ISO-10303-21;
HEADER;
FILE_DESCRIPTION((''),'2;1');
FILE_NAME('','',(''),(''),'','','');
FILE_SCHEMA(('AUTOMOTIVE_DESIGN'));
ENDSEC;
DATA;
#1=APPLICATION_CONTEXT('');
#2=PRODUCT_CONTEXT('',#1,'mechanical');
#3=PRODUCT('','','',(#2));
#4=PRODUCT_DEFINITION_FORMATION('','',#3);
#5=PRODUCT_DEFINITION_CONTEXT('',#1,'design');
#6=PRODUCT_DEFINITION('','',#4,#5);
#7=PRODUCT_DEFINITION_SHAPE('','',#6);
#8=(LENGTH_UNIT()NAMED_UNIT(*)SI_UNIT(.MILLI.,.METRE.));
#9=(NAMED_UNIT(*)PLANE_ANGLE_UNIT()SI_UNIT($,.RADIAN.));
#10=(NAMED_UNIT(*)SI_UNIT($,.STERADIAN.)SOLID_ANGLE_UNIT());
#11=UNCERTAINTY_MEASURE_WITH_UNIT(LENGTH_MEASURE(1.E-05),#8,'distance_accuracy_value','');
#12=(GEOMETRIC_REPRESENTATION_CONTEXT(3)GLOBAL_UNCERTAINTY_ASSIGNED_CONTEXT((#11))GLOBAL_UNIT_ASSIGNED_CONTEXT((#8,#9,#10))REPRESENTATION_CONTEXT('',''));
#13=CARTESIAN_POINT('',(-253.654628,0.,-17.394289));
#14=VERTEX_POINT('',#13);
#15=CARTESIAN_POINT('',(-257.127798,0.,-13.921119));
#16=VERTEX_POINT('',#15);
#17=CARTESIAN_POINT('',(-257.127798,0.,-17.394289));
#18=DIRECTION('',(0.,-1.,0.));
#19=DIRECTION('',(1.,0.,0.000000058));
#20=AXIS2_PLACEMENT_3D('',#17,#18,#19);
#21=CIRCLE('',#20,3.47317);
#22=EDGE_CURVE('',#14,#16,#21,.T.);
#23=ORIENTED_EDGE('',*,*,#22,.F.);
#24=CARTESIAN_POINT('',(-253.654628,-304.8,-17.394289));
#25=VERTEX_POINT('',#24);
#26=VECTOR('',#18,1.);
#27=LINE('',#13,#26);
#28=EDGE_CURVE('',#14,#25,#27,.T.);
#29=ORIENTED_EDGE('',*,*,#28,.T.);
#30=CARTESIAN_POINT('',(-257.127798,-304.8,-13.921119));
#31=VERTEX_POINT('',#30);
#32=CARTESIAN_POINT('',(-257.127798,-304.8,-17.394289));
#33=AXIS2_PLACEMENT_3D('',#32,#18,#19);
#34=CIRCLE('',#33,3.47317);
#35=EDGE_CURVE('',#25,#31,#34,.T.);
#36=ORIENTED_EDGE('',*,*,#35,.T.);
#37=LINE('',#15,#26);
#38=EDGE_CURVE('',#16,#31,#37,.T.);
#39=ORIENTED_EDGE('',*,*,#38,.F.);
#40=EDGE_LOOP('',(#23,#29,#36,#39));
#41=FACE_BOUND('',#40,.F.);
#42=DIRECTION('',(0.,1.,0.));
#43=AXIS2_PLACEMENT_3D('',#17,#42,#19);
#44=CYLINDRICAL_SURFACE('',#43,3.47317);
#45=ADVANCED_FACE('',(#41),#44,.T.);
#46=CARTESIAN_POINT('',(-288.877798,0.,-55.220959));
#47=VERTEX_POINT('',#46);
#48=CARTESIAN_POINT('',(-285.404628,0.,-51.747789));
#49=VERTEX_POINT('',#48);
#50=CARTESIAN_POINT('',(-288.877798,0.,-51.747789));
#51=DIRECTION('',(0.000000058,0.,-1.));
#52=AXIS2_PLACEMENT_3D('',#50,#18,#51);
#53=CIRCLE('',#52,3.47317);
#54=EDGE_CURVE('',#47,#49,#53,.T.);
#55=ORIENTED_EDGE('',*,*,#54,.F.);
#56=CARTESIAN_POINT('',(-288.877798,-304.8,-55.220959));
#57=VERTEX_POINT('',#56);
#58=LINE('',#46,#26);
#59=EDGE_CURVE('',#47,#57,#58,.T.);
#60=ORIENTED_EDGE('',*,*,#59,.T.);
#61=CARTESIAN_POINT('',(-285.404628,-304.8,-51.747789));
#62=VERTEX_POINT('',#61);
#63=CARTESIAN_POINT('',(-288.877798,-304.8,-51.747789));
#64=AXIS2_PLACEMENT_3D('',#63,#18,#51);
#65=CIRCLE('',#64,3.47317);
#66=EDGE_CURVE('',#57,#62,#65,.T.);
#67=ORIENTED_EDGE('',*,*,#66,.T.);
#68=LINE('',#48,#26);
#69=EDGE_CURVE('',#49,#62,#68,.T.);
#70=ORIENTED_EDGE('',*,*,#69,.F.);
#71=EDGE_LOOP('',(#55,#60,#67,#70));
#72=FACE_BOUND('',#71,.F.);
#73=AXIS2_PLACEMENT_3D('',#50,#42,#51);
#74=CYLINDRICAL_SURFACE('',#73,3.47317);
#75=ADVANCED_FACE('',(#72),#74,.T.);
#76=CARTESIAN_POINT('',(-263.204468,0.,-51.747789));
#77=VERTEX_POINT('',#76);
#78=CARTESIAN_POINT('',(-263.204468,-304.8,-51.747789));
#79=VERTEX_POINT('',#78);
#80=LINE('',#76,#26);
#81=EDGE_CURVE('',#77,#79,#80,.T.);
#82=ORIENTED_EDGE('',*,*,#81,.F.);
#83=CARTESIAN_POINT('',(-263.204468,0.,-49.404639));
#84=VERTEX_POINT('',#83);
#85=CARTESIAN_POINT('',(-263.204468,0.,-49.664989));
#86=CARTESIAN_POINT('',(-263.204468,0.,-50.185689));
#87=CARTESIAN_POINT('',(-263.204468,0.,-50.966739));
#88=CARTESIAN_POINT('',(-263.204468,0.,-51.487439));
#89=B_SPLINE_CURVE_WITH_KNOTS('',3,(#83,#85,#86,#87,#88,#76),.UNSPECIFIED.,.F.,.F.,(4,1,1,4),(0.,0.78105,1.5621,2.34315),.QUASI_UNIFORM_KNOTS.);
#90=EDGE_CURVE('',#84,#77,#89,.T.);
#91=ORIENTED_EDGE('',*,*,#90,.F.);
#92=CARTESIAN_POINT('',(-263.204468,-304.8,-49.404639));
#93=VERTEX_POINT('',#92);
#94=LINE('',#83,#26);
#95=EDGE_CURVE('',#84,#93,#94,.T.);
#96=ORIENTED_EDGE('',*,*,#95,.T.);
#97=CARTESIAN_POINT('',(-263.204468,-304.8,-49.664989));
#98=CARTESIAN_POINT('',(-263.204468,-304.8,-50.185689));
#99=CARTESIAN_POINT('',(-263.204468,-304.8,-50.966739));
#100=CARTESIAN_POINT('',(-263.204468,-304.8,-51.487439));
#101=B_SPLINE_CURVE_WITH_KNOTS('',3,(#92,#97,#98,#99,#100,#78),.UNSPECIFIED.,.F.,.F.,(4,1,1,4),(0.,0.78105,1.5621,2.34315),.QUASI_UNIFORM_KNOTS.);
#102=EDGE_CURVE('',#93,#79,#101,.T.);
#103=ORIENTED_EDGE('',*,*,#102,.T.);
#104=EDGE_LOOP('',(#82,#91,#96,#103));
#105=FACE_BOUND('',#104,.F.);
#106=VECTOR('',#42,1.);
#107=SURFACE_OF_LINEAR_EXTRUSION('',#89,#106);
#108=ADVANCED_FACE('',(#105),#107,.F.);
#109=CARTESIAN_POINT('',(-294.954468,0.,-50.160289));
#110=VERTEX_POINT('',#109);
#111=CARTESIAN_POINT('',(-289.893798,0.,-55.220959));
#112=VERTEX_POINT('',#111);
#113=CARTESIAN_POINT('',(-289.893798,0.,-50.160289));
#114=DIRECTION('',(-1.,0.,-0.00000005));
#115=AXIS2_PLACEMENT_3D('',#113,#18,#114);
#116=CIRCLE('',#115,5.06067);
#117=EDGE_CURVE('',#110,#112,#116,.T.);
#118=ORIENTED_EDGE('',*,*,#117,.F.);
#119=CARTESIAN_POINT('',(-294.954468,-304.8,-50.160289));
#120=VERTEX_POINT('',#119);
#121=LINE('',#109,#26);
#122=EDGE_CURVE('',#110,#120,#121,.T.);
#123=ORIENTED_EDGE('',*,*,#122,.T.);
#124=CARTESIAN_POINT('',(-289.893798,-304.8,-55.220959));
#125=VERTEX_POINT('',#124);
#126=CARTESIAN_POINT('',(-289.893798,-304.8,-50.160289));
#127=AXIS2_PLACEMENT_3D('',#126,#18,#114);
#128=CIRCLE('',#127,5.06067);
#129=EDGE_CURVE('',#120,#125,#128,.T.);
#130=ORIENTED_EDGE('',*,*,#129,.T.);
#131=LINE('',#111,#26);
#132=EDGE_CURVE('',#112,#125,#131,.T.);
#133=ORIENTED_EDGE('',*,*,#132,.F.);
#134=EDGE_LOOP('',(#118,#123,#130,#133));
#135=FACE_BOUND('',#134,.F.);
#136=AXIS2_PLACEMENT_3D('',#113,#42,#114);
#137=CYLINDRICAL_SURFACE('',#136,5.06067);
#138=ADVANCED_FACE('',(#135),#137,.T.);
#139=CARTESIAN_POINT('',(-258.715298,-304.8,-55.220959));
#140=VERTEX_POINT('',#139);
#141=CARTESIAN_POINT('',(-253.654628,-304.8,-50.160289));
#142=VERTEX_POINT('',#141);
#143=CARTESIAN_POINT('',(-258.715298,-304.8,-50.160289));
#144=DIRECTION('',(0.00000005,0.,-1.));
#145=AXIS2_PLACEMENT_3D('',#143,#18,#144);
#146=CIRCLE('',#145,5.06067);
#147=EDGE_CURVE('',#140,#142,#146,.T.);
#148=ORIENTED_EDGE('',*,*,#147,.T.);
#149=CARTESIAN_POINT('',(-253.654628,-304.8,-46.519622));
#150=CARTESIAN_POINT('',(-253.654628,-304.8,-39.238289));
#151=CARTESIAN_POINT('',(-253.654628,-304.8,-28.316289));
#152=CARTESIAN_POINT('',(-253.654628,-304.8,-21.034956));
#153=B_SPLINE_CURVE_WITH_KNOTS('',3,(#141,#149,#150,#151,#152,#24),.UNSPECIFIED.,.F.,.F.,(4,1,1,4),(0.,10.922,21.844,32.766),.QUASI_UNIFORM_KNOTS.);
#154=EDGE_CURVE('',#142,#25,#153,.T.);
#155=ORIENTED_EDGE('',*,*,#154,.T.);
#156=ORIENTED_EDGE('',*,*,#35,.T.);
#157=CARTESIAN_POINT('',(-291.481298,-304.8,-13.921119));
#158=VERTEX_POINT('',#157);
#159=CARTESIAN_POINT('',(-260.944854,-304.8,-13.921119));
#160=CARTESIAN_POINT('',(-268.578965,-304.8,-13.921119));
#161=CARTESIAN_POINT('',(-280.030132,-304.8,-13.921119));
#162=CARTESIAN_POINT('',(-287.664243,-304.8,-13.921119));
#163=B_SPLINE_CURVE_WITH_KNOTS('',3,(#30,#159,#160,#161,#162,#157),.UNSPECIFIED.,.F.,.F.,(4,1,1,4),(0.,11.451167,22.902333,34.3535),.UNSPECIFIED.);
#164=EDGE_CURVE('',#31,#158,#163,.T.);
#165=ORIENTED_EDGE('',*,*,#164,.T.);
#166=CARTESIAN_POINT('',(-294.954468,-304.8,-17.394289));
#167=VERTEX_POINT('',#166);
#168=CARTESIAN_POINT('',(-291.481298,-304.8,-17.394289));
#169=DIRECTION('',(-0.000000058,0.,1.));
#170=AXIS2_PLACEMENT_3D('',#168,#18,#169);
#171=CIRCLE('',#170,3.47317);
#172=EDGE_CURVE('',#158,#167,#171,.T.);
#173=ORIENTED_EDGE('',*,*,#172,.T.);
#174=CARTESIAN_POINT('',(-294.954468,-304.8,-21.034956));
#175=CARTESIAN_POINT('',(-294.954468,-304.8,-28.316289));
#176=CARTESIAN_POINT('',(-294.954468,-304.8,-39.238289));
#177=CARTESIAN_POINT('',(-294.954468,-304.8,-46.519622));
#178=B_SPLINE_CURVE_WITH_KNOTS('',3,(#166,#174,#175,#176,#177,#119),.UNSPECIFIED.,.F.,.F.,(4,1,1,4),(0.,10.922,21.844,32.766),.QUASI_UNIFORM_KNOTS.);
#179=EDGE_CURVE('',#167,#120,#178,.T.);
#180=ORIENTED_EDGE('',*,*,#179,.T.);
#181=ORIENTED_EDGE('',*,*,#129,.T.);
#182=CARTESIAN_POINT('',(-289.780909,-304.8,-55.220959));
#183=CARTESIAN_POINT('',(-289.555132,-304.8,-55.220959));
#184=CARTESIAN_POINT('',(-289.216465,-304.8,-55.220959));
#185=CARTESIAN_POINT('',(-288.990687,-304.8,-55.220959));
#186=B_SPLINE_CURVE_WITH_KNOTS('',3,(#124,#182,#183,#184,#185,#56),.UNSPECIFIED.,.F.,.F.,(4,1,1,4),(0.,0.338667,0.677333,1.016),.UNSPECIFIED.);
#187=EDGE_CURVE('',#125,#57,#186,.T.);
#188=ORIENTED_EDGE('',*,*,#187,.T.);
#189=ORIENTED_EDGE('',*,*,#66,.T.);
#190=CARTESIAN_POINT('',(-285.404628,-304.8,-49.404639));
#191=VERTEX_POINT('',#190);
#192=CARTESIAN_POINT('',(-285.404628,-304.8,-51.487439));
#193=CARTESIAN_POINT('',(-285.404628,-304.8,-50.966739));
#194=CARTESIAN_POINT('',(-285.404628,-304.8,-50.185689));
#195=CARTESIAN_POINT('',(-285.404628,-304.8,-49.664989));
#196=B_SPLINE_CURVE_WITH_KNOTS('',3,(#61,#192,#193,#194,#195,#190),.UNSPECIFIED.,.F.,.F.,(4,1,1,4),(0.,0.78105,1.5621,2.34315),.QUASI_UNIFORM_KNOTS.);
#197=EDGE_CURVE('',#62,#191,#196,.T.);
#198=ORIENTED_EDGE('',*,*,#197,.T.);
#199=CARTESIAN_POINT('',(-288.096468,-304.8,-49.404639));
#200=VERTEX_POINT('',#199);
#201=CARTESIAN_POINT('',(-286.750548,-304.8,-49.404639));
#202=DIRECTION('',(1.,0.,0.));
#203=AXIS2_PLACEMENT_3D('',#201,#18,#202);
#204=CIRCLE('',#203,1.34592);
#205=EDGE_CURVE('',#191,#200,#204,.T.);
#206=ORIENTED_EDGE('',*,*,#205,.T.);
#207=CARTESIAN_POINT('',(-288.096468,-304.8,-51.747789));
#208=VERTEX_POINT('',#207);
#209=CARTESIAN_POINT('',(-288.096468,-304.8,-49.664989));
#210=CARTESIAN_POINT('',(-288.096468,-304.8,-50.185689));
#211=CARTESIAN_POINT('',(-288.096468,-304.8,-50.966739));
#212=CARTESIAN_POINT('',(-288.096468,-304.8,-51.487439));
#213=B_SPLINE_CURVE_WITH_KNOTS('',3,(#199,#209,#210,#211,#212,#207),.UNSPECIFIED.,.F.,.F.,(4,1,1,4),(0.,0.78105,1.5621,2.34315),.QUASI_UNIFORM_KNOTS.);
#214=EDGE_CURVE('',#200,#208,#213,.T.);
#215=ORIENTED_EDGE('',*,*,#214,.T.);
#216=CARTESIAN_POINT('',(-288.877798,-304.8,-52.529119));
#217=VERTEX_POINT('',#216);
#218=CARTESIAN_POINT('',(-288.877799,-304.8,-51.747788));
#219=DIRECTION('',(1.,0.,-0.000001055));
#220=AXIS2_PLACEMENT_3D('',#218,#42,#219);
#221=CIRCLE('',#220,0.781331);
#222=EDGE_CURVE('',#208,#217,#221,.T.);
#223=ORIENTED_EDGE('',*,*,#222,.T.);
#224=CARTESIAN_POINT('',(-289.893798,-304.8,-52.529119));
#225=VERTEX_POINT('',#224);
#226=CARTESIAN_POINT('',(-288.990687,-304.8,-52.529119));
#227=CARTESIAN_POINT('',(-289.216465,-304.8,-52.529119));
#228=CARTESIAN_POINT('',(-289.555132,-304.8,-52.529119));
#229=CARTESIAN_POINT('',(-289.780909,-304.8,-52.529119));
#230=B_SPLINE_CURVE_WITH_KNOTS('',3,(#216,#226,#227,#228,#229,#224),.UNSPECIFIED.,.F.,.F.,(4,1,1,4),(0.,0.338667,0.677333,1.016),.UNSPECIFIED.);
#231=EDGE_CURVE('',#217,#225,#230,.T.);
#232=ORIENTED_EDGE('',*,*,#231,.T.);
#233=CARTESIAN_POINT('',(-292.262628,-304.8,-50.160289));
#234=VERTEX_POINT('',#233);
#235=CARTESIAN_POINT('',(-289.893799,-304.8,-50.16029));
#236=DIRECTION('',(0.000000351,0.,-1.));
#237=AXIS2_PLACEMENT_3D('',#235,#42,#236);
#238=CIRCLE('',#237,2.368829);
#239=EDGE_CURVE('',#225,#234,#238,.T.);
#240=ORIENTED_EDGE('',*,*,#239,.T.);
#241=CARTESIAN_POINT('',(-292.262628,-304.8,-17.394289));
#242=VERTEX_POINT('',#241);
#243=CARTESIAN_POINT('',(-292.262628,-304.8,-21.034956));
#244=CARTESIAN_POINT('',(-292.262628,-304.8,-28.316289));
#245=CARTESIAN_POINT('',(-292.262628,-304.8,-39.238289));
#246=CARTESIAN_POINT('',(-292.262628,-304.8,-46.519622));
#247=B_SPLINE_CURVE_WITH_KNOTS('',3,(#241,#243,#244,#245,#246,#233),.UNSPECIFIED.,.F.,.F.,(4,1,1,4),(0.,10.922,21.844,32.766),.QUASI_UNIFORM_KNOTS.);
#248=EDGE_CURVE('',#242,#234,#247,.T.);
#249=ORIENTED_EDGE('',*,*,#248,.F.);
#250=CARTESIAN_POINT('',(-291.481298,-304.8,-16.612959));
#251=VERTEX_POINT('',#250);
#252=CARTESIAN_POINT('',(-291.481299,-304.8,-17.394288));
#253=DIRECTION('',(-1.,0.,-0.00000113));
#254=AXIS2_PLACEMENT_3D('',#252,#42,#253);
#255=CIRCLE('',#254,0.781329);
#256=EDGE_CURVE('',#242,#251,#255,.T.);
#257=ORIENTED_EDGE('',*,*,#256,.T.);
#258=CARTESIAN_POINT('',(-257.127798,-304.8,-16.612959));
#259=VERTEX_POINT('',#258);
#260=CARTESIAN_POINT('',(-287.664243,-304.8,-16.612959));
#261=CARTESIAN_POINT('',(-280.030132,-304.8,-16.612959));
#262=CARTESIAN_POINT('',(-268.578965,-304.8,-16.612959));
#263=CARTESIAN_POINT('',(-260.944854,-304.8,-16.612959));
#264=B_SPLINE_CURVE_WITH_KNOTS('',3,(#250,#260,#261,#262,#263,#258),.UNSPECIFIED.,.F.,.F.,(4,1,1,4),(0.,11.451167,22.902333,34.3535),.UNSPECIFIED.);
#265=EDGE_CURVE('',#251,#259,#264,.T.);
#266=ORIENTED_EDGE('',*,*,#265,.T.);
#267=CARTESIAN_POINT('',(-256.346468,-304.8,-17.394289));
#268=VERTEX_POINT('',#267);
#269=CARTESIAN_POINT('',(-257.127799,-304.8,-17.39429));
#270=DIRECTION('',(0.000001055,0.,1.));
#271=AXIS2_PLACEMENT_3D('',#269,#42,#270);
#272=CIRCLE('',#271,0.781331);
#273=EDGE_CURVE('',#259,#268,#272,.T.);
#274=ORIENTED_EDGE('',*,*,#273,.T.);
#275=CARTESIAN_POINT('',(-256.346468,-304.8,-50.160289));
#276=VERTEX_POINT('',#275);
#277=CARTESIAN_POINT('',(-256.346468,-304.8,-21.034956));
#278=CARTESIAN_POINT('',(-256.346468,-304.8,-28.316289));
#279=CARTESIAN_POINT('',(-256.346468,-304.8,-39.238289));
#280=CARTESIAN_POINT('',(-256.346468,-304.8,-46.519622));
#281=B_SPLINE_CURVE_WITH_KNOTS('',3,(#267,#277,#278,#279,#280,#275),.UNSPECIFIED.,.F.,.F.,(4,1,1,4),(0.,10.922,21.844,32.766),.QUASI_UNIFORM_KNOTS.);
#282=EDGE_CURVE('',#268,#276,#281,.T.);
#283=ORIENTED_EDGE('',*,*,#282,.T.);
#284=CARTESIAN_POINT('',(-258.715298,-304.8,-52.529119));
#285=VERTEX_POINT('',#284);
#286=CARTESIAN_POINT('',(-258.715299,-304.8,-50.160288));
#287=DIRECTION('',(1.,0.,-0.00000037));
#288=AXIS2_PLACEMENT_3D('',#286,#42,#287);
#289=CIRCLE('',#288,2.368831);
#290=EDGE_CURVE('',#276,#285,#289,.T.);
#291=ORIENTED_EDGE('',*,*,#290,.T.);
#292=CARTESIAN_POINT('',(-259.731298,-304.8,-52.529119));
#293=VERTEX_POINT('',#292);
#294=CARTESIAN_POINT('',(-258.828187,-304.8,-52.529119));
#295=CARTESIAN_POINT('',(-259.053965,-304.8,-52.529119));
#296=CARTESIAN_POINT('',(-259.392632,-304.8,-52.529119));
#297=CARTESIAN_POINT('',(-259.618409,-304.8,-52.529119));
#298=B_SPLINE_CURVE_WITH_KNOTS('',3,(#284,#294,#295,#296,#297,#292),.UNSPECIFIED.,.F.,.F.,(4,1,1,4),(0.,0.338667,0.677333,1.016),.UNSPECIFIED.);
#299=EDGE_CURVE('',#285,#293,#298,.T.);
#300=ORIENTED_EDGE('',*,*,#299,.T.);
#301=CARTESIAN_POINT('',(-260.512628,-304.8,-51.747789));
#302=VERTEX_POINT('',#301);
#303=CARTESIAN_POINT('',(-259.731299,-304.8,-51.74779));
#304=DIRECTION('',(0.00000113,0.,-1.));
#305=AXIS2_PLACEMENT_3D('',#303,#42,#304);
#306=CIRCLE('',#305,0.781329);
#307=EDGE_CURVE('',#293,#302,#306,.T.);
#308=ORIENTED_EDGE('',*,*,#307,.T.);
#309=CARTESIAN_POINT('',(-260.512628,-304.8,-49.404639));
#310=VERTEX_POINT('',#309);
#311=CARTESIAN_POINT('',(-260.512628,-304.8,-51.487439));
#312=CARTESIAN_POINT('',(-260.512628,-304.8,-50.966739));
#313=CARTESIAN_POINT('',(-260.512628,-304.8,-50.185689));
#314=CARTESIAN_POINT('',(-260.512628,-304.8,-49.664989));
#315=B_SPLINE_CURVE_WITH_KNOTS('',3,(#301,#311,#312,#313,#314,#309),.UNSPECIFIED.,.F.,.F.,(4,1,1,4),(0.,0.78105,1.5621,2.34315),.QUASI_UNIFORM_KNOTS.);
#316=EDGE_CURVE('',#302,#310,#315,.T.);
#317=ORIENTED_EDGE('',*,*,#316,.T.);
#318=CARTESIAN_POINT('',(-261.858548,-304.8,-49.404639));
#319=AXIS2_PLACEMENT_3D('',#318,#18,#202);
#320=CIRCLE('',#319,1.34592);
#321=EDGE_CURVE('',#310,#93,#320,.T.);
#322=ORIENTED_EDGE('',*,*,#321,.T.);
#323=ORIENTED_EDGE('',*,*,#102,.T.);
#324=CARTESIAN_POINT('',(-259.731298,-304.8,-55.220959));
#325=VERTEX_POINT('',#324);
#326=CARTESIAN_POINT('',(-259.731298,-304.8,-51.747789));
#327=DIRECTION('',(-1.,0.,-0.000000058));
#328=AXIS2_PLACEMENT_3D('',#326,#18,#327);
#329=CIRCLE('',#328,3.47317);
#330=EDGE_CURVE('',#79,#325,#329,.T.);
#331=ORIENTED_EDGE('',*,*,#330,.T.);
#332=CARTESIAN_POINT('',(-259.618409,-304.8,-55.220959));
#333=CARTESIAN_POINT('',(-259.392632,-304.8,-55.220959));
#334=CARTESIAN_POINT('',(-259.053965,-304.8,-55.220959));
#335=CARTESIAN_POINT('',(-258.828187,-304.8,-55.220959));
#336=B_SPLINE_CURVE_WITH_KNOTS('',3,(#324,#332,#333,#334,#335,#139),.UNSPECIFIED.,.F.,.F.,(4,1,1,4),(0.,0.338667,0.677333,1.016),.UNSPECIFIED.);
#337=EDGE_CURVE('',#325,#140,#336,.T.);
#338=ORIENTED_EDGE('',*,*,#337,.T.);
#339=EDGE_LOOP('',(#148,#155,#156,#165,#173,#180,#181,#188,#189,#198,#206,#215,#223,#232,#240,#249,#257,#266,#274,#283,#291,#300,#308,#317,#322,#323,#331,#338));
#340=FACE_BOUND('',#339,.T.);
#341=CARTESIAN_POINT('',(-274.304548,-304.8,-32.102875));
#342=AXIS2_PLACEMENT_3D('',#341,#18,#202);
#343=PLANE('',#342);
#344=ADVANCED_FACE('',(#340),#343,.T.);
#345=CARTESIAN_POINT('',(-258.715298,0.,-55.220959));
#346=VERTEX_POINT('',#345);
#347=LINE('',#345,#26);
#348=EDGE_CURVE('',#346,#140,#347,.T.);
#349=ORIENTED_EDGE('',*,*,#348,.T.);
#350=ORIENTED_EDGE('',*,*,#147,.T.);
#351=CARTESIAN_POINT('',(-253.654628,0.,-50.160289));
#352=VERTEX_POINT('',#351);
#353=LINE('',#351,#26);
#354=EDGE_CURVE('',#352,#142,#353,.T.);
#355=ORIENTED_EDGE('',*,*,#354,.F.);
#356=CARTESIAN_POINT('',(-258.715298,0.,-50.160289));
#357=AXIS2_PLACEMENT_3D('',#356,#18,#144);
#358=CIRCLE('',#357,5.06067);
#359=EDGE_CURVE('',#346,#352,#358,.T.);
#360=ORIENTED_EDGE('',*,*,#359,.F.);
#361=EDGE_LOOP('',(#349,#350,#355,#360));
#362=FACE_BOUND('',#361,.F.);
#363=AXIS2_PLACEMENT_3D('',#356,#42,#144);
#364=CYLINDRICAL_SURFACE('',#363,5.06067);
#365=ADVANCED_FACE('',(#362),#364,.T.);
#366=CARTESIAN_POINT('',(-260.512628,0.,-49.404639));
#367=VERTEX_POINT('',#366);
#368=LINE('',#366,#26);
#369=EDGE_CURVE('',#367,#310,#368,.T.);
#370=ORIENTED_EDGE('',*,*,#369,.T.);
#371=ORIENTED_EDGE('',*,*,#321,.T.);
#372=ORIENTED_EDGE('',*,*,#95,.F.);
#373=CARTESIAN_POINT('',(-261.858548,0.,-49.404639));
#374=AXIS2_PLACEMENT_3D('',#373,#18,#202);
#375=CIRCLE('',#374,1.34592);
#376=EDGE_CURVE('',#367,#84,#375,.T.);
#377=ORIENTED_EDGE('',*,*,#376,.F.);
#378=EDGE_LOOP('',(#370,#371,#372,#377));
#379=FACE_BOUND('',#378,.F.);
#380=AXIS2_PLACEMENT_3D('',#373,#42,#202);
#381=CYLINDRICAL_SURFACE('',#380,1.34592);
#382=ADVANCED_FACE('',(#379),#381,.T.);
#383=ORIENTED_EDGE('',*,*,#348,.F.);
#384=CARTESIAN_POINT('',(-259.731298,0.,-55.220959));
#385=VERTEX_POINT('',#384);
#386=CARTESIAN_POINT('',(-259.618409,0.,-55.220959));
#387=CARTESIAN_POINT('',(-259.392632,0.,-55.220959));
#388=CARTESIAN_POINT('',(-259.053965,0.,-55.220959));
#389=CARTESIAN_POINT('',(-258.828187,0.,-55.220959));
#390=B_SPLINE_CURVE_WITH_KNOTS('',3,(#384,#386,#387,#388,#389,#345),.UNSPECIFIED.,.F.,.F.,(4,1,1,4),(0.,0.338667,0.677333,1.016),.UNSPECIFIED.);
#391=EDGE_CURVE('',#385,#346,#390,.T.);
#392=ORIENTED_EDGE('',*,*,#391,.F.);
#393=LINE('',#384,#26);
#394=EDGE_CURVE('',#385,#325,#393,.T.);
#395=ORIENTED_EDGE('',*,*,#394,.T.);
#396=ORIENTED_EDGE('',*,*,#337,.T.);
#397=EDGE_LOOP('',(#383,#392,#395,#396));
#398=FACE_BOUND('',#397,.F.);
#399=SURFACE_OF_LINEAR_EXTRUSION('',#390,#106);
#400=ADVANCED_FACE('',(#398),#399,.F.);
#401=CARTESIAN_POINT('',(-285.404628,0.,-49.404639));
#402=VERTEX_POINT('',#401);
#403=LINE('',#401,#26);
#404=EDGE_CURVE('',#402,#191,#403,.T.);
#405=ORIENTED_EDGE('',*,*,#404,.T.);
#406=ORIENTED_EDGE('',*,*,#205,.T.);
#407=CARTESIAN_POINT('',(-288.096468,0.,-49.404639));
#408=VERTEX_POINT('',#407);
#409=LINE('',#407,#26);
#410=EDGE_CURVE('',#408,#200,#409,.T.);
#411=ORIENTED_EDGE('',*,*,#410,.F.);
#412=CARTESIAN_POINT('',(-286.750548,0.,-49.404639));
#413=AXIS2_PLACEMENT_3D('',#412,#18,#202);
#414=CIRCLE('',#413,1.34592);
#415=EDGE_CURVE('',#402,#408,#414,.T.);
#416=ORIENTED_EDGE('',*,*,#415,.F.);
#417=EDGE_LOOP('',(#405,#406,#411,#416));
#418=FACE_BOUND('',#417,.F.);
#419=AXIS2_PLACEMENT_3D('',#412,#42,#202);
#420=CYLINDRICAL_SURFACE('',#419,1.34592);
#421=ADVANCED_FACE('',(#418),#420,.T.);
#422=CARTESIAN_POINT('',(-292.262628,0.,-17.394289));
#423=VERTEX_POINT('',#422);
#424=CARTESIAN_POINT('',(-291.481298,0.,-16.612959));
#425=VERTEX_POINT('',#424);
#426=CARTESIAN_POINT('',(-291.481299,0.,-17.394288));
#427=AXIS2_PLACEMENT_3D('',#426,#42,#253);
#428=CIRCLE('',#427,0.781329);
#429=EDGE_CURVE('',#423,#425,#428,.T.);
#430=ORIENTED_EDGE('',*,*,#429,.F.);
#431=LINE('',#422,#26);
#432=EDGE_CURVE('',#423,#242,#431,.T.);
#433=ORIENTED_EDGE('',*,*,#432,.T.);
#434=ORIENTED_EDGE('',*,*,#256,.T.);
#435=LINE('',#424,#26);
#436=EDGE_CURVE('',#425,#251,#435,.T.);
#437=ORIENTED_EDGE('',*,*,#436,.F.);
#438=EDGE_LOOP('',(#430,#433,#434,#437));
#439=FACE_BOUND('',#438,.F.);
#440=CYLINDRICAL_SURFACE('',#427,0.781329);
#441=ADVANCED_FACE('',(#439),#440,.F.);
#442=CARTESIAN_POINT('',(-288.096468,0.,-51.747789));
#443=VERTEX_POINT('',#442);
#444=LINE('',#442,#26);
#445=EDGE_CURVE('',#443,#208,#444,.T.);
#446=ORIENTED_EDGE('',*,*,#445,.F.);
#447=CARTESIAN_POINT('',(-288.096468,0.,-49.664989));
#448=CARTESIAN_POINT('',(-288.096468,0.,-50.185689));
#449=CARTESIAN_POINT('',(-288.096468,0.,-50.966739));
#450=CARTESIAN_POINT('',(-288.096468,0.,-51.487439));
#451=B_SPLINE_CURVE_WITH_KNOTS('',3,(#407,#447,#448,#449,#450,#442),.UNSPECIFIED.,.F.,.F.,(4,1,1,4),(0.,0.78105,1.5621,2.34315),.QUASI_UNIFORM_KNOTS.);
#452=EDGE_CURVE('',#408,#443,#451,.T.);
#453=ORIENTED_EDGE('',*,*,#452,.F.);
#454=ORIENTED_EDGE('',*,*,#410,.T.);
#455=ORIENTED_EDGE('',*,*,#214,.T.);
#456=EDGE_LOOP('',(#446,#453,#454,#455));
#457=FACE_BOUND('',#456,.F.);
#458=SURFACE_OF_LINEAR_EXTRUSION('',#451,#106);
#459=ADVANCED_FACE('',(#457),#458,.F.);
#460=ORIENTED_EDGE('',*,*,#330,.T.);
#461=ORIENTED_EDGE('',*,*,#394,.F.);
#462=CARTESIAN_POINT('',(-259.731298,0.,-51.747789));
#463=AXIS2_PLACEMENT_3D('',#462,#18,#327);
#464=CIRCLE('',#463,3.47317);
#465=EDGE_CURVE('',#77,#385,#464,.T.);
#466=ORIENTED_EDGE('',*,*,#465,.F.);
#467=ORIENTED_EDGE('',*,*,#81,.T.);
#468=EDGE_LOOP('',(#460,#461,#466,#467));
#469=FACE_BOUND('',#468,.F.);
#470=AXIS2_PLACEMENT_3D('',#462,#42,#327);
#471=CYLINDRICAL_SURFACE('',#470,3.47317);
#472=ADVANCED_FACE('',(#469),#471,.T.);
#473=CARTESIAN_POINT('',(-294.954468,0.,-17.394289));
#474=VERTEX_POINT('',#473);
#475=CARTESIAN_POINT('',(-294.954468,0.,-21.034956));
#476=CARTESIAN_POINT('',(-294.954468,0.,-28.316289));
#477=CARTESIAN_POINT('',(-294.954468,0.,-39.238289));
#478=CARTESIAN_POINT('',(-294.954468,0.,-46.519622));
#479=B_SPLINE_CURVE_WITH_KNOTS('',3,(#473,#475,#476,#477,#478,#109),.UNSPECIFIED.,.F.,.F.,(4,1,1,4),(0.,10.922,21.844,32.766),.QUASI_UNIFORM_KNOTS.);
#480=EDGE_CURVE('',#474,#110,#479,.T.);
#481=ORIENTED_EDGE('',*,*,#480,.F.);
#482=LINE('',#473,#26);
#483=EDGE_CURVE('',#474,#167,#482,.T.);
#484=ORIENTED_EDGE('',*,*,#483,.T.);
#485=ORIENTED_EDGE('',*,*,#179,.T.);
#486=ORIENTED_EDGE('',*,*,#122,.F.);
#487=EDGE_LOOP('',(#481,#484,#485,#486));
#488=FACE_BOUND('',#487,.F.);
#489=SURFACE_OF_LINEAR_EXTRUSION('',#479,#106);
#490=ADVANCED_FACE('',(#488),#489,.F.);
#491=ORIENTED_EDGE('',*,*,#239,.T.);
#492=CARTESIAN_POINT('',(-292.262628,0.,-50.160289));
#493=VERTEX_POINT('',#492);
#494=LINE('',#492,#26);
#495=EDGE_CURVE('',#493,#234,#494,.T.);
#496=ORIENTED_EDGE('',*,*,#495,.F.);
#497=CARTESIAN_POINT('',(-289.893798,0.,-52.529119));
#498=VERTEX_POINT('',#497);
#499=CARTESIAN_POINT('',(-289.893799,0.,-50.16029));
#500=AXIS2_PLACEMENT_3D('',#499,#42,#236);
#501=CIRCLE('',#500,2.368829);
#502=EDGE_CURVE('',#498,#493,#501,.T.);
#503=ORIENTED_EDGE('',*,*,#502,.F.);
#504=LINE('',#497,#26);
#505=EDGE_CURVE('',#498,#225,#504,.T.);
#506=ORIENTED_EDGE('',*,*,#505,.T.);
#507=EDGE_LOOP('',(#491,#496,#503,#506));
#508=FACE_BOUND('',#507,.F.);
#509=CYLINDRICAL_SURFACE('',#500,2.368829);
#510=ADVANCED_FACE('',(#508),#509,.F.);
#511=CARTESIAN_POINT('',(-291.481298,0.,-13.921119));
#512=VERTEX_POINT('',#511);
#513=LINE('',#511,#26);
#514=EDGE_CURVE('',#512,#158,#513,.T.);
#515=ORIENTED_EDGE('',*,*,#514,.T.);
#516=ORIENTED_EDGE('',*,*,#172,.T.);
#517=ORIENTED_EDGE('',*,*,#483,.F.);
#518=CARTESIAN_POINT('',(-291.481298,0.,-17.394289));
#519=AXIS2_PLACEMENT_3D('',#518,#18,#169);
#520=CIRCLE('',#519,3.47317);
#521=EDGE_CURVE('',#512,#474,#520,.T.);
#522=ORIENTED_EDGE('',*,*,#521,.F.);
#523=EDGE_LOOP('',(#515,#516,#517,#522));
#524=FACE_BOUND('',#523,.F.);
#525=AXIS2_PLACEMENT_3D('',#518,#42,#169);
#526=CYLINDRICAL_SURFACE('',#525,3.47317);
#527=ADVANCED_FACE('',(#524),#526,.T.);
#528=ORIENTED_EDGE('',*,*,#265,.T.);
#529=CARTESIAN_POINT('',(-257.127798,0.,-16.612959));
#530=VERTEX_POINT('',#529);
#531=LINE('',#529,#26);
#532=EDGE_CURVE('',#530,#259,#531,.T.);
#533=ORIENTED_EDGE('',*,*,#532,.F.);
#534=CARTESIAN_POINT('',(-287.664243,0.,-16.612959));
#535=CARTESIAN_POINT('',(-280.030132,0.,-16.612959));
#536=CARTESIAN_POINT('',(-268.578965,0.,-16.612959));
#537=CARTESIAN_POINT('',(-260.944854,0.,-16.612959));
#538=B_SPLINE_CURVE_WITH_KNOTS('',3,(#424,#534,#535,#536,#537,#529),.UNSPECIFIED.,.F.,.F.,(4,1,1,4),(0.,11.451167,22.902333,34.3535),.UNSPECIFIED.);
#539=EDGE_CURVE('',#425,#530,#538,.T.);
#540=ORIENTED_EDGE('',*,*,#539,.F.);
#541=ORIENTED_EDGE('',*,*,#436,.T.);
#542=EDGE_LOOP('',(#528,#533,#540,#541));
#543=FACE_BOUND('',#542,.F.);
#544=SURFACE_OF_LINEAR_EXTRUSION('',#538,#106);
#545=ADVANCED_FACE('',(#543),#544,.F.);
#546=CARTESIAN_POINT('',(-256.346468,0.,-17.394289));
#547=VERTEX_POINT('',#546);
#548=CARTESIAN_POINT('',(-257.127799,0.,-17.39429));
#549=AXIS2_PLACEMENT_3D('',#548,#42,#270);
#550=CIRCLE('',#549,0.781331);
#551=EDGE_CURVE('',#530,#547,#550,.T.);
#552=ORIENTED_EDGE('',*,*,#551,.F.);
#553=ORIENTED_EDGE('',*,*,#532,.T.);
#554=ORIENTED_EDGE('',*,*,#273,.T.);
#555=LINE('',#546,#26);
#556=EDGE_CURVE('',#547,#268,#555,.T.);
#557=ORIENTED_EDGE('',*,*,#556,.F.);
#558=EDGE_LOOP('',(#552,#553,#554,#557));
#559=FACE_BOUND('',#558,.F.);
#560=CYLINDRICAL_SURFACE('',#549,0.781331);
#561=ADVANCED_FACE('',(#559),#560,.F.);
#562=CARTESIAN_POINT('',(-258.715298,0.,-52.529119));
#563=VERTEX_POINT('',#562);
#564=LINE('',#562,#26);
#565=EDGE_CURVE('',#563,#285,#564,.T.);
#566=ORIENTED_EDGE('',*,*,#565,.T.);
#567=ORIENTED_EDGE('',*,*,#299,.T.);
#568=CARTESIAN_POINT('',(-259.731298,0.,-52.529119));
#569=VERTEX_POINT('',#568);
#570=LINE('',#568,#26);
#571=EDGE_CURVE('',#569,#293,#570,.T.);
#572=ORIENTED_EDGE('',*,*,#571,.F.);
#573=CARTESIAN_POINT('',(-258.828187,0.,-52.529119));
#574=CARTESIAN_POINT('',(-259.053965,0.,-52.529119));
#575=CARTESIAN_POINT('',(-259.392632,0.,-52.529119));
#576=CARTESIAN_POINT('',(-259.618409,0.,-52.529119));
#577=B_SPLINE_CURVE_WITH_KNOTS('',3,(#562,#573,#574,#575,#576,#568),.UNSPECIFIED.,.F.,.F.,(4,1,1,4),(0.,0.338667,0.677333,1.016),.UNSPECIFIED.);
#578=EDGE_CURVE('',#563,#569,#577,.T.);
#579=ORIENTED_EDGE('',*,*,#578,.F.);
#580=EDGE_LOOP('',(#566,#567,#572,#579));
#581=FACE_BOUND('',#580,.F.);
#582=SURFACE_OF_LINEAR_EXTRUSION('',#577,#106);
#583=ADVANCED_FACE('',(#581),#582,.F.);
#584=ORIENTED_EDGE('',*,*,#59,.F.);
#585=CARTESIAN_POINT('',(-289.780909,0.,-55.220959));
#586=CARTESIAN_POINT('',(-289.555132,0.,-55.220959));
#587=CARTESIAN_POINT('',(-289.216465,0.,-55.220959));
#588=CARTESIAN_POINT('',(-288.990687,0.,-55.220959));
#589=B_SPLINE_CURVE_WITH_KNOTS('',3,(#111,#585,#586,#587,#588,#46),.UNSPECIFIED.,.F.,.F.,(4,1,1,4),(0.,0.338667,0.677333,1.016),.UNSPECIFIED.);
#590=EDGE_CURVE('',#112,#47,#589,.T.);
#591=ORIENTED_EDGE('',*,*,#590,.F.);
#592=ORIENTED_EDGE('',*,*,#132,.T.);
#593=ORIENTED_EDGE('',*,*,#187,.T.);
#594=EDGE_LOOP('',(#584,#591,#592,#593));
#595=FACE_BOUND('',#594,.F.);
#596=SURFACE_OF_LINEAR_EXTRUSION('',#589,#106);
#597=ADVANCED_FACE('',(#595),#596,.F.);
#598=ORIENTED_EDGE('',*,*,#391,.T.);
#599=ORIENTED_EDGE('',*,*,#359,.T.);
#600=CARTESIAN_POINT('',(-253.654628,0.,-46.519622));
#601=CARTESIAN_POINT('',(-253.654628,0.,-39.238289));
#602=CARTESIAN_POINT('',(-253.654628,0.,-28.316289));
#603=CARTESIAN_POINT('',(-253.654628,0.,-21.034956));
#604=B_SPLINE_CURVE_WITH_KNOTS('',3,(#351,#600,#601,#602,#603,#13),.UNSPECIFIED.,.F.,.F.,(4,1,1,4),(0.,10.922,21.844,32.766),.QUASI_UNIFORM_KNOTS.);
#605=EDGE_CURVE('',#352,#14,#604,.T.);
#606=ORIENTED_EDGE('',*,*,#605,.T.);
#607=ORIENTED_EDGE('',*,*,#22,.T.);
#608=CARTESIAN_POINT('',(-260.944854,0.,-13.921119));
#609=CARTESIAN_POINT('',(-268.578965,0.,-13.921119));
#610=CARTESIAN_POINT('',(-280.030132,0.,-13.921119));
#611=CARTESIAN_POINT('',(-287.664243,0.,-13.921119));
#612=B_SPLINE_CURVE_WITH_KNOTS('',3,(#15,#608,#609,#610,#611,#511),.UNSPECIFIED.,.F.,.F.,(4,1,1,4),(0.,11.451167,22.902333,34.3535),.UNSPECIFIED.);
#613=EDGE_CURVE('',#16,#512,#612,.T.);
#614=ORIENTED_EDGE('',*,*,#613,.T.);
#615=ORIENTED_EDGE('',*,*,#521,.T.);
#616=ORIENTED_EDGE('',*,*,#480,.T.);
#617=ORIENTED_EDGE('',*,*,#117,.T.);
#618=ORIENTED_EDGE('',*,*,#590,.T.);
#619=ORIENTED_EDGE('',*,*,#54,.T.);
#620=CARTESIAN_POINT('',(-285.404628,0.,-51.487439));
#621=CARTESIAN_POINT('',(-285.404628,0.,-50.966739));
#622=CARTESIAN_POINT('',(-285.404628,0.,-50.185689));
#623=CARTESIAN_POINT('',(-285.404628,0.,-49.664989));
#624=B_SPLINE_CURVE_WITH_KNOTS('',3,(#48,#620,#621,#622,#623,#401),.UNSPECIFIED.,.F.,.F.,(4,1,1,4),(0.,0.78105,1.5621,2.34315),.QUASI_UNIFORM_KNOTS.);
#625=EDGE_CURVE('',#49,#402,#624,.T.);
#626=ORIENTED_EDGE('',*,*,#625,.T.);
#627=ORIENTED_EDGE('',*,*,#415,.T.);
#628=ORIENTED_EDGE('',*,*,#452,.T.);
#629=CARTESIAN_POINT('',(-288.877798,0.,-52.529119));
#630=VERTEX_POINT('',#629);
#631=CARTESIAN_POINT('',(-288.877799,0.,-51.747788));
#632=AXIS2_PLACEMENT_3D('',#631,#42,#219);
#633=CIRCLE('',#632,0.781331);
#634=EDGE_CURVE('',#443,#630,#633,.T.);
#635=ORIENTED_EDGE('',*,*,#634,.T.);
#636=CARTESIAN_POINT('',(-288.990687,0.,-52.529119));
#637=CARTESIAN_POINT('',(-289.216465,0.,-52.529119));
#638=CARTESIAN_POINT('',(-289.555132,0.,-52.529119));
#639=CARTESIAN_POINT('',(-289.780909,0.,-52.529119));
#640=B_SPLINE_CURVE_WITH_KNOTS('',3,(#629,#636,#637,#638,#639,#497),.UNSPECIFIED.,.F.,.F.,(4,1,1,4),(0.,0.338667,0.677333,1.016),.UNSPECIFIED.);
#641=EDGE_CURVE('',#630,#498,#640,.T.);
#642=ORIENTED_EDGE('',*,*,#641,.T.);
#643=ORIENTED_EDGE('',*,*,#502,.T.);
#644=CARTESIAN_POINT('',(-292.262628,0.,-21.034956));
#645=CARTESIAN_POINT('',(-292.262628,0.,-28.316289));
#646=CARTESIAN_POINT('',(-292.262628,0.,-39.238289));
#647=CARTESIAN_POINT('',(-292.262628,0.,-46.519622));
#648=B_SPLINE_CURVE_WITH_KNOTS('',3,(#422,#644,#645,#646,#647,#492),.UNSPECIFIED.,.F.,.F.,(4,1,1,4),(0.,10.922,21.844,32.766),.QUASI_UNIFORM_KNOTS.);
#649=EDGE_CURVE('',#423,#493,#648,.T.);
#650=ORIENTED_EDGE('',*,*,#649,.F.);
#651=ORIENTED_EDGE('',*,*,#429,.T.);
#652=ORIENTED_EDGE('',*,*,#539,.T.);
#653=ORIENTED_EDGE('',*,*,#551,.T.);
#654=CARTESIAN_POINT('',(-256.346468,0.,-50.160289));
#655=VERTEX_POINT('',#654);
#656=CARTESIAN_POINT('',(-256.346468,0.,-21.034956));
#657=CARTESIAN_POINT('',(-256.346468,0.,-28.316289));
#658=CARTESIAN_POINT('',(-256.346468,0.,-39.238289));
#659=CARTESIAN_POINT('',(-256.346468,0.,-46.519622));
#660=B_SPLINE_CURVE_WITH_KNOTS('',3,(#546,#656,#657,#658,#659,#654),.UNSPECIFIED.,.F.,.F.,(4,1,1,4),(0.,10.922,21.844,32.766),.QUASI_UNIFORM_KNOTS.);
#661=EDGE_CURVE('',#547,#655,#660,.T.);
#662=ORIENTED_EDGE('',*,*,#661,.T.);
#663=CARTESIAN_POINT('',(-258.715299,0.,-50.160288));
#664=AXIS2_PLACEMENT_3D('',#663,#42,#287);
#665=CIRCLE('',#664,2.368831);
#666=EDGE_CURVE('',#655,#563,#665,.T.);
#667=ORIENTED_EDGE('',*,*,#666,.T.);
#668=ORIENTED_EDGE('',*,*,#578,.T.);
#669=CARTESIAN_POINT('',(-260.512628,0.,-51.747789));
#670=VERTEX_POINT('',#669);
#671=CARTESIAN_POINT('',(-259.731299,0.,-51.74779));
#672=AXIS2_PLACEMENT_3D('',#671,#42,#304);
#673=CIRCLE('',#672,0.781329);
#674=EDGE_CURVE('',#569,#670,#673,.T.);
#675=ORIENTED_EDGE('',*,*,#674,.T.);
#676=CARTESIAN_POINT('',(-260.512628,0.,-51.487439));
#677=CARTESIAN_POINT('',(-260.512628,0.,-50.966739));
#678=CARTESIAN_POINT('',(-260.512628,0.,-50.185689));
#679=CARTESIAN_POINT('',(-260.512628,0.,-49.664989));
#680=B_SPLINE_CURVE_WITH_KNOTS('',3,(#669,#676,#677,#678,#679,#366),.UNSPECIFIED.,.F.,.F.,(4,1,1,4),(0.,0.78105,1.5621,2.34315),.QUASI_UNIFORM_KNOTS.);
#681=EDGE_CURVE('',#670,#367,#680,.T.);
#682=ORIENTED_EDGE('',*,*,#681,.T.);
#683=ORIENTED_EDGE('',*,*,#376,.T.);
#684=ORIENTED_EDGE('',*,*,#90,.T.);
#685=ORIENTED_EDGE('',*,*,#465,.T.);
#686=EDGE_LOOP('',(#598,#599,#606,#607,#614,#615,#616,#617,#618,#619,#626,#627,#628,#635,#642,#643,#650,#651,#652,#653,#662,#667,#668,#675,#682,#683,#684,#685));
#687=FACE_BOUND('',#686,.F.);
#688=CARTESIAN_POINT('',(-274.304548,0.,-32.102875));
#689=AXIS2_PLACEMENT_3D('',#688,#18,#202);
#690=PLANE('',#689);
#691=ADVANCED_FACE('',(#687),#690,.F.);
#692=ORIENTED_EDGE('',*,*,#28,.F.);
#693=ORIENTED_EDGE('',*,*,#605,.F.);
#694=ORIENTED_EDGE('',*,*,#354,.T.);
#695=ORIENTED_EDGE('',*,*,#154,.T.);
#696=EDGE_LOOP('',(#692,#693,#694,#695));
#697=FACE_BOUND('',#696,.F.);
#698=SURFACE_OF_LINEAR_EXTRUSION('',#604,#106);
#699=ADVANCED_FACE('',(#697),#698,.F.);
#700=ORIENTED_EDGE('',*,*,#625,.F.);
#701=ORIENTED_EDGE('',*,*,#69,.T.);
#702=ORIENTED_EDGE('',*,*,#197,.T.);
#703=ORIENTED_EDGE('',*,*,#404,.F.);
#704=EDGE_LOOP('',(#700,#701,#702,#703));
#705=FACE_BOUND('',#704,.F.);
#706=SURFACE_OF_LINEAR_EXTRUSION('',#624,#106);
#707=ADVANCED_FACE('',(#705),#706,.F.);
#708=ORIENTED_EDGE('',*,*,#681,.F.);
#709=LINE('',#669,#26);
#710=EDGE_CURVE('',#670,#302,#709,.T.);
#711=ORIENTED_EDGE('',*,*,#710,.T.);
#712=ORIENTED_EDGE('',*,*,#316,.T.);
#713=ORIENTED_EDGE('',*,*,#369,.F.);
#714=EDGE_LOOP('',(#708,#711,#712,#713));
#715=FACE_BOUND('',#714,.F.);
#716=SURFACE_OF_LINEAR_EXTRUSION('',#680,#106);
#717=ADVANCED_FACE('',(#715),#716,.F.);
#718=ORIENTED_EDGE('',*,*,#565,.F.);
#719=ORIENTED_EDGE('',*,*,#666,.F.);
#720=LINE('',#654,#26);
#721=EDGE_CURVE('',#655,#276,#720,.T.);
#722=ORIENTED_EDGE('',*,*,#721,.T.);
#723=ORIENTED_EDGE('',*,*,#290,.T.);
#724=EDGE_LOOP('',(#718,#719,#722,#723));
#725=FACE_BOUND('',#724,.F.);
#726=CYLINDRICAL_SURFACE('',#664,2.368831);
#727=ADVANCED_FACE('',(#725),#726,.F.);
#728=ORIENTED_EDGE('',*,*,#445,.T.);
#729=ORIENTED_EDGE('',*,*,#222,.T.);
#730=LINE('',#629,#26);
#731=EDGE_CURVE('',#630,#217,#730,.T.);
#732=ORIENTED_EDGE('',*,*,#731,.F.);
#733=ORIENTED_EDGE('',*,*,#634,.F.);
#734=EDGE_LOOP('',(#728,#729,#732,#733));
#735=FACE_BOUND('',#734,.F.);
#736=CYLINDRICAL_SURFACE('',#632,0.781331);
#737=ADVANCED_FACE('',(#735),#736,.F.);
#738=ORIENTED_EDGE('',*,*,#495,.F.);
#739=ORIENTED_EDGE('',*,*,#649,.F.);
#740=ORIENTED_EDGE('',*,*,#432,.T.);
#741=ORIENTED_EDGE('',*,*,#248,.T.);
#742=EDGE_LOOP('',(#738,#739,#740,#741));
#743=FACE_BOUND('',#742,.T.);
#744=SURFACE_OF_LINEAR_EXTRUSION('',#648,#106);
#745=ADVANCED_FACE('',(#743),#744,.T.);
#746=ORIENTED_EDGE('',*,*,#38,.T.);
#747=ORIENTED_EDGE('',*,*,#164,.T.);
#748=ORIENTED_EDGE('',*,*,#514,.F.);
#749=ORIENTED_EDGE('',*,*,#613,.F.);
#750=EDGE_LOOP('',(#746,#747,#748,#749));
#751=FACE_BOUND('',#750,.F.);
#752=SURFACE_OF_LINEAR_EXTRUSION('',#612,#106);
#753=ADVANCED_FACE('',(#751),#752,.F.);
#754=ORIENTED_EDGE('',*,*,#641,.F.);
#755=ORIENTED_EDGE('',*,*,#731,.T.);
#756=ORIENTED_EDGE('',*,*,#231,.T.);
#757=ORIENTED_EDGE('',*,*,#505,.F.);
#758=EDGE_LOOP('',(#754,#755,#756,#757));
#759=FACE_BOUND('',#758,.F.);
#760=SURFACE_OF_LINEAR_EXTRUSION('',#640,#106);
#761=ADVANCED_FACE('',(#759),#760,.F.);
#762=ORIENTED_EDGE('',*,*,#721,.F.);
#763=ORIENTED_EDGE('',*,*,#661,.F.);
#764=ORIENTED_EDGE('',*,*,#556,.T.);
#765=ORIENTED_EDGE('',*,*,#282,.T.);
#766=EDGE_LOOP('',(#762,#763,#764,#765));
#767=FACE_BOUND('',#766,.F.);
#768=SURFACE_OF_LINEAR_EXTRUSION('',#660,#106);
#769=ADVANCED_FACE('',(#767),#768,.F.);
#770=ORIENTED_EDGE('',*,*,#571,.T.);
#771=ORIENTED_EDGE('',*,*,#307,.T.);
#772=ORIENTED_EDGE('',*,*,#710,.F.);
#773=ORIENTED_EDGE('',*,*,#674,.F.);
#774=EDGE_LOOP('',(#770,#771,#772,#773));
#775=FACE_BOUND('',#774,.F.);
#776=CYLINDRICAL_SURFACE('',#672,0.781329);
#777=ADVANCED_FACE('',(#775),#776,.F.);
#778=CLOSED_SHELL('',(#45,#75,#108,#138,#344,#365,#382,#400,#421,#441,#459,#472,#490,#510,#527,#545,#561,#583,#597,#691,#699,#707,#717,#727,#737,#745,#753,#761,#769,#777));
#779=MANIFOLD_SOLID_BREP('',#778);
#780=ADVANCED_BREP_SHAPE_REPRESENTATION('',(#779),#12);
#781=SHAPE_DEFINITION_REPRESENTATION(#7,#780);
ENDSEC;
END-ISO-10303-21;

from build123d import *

# Parameters (mm, degrees)
F1_DEPTH = 304.8


with BuildPart() as f1:
    # F0 (on Front) → F1 (new body)
    with BuildSketch(Plane.XZ):
        with BuildLine():
            ThreePointArc((-258.715298, -55.220959), (-255.136864, -53.738723), (-253.654628, -50.160289))
            add(Edge.make_bspline(
                [(-253.654628, -50.160289), (-253.654628, -46.519622), (-253.654628, -39.238289), (-253.654628, -28.316289), (-253.654628, -21.034956), (-253.654628, -17.394289)],
                knots=[0, 0, 0, 0, 10.922, 21.844, 32.766, 32.766, 32.766, 32.766], degree=3))
            ThreePointArc((-253.654628, -17.394289), (-254.671896, -14.938387), (-257.127798, -13.921119))
            add(Edge.make_bspline(
                [(-257.127798, -13.921119), (-260.944854, -13.921119), (-268.578965, -13.921119), (-280.030132, -13.921119), (-287.664243, -13.921119), (-291.481298, -13.921119)],
                knots=[0, 0, 0, 0, 11.451167, 22.902333, 34.3535, 34.3535, 34.3535, 34.3535], degree=3))
            ThreePointArc((-291.481298, -13.921119), (-293.9372, -14.938387), (-294.954468, -17.394289))
            add(Edge.make_bspline(
                [(-294.954468, -17.394289), (-294.954468, -21.034956), (-294.954468, -28.316289), (-294.954468, -39.238289), (-294.954468, -46.519622), (-294.954468, -50.160289)],
                knots=[0, 0, 0, 0, 10.922, 21.844, 32.766, 32.766, 32.766, 32.766], degree=3))
            ThreePointArc((-294.954468, -50.160289), (-293.472232, -53.738723), (-289.893798, -55.220959))
            add(Edge.make_bspline(
                [(-289.893798, -55.220959), (-289.780909, -55.220959), (-289.555132, -55.220959), (-289.216465, -55.220959), (-288.990687, -55.220959), (-288.877798, -55.220959)],
                knots=[0, 0, 0, 0, 0.338667, 0.677333, 1.016, 1.016, 1.016, 1.016], degree=3))
            ThreePointArc((-288.877798, -55.220959), (-286.421896, -54.203691), (-285.404628, -51.747789))
            add(Edge.make_bspline(
                [(-285.404628, -51.747789), (-285.404628, -51.487439), (-285.404628, -50.966739), (-285.404628, -50.185689), (-285.404628, -49.664989), (-285.404628, -49.404639)],
                knots=[0, 0, 0, 0, 0.78105, 1.5621, 2.34315, 2.34315, 2.34315, 2.34315], degree=3))
            ThreePointArc((-285.404628, -49.404639), (-286.750548, -48.058719), (-288.096468, -49.404639))
            add(Edge.make_bspline(
                [(-288.096468, -49.404639), (-288.096468, -49.664989), (-288.096468, -50.185689), (-288.096468, -50.966739), (-288.096468, -51.487439), (-288.096468, -51.747789)],
                knots=[0, 0, 0, 0, 0.78105, 1.5621, 2.34315, 2.34315, 2.34315, 2.34315], degree=3))
            ThreePointArc((-288.096468, -51.747789), (-288.325315, -52.300273), (-288.877798, -52.529119))
            add(Edge.make_bspline(
                [(-288.877798, -52.529119), (-288.990687, -52.529119), (-289.216465, -52.529119), (-289.555132, -52.529119), (-289.780909, -52.529119), (-289.893798, -52.529119)],
                knots=[0, 0, 0, 0, 0.338667, 0.677333, 1.016, 1.016, 1.016, 1.016], degree=3))
            ThreePointArc((-289.893798, -52.529119), (-291.568814, -51.835305), (-292.262628, -50.160289))
            add(Edge.make_bspline(
                [(-292.262628, -17.394289), (-292.262628, -21.034956), (-292.262628, -28.316289), (-292.262628, -39.238289), (-292.262628, -46.519622), (-292.262628, -50.160289)],
                knots=[0, 0, 0, 0, 10.922, 21.844, 32.766, 32.766, 32.766, 32.766], degree=3))
            ThreePointArc((-292.262628, -17.394289), (-292.033782, -16.841805), (-291.481298, -16.612959))
            add(Edge.make_bspline(
                [(-291.481298, -16.612959), (-287.664243, -16.612959), (-280.030132, -16.612959), (-268.578965, -16.612959), (-260.944854, -16.612959), (-257.127798, -16.612959)],
                knots=[0, 0, 0, 0, 11.451167, 22.902333, 34.3535, 34.3535, 34.3535, 34.3535], degree=3))
            ThreePointArc((-257.127798, -16.612959), (-256.575315, -16.841805), (-256.346468, -17.394289))
            add(Edge.make_bspline(
                [(-256.346468, -17.394289), (-256.346468, -21.034956), (-256.346468, -28.316289), (-256.346468, -39.238289), (-256.346468, -46.519622), (-256.346468, -50.160289)],
                knots=[0, 0, 0, 0, 10.922, 21.844, 32.766, 32.766, 32.766, 32.766], degree=3))
            ThreePointArc((-256.346468, -50.160289), (-257.040283, -51.835305), (-258.715298, -52.529119))
            add(Edge.make_bspline(
                [(-258.715298, -52.529119), (-258.828187, -52.529119), (-259.053965, -52.529119), (-259.392632, -52.529119), (-259.618409, -52.529119), (-259.731298, -52.529119)],
                knots=[0, 0, 0, 0, 0.338667, 0.677333, 1.016, 1.016, 1.016, 1.016], degree=3))
            ThreePointArc((-259.731298, -52.529119), (-260.283782, -52.300273), (-260.512628, -51.747789))
            add(Edge.make_bspline(
                [(-260.512628, -51.747789), (-260.512628, -51.487439), (-260.512628, -50.966739), (-260.512628, -50.185689), (-260.512628, -49.664989), (-260.512628, -49.404639)],
                knots=[0, 0, 0, 0, 0.78105, 1.5621, 2.34315, 2.34315, 2.34315, 2.34315], degree=3))
            ThreePointArc((-260.512628, -49.404639), (-261.858548, -48.058719), (-263.204468, -49.404639))
            add(Edge.make_bspline(
                [(-263.204468, -49.404639), (-263.204468, -49.664989), (-263.204468, -50.185689), (-263.204468, -50.966739), (-263.204468, -51.487439), (-263.204468, -51.747789)],
                knots=[0, 0, 0, 0, 0.78105, 1.5621, 2.34315, 2.34315, 2.34315, 2.34315], degree=3))
            ThreePointArc((-263.204468, -51.747789), (-262.1872, -54.203691), (-259.731298, -55.220959))
            add(Edge.make_bspline(
                [(-259.731298, -55.220959), (-259.618409, -55.220959), (-259.392632, -55.220959), (-259.053965, -55.220959), (-258.828187, -55.220959), (-258.715298, -55.220959)],
                knots=[0, 0, 0, 0, 0.338667, 0.677333, 1.016, 1.016, 1.016, 1.016], degree=3))
        make_face()
    extrude(amount=F1_DEPTH)


solid = f1.part
